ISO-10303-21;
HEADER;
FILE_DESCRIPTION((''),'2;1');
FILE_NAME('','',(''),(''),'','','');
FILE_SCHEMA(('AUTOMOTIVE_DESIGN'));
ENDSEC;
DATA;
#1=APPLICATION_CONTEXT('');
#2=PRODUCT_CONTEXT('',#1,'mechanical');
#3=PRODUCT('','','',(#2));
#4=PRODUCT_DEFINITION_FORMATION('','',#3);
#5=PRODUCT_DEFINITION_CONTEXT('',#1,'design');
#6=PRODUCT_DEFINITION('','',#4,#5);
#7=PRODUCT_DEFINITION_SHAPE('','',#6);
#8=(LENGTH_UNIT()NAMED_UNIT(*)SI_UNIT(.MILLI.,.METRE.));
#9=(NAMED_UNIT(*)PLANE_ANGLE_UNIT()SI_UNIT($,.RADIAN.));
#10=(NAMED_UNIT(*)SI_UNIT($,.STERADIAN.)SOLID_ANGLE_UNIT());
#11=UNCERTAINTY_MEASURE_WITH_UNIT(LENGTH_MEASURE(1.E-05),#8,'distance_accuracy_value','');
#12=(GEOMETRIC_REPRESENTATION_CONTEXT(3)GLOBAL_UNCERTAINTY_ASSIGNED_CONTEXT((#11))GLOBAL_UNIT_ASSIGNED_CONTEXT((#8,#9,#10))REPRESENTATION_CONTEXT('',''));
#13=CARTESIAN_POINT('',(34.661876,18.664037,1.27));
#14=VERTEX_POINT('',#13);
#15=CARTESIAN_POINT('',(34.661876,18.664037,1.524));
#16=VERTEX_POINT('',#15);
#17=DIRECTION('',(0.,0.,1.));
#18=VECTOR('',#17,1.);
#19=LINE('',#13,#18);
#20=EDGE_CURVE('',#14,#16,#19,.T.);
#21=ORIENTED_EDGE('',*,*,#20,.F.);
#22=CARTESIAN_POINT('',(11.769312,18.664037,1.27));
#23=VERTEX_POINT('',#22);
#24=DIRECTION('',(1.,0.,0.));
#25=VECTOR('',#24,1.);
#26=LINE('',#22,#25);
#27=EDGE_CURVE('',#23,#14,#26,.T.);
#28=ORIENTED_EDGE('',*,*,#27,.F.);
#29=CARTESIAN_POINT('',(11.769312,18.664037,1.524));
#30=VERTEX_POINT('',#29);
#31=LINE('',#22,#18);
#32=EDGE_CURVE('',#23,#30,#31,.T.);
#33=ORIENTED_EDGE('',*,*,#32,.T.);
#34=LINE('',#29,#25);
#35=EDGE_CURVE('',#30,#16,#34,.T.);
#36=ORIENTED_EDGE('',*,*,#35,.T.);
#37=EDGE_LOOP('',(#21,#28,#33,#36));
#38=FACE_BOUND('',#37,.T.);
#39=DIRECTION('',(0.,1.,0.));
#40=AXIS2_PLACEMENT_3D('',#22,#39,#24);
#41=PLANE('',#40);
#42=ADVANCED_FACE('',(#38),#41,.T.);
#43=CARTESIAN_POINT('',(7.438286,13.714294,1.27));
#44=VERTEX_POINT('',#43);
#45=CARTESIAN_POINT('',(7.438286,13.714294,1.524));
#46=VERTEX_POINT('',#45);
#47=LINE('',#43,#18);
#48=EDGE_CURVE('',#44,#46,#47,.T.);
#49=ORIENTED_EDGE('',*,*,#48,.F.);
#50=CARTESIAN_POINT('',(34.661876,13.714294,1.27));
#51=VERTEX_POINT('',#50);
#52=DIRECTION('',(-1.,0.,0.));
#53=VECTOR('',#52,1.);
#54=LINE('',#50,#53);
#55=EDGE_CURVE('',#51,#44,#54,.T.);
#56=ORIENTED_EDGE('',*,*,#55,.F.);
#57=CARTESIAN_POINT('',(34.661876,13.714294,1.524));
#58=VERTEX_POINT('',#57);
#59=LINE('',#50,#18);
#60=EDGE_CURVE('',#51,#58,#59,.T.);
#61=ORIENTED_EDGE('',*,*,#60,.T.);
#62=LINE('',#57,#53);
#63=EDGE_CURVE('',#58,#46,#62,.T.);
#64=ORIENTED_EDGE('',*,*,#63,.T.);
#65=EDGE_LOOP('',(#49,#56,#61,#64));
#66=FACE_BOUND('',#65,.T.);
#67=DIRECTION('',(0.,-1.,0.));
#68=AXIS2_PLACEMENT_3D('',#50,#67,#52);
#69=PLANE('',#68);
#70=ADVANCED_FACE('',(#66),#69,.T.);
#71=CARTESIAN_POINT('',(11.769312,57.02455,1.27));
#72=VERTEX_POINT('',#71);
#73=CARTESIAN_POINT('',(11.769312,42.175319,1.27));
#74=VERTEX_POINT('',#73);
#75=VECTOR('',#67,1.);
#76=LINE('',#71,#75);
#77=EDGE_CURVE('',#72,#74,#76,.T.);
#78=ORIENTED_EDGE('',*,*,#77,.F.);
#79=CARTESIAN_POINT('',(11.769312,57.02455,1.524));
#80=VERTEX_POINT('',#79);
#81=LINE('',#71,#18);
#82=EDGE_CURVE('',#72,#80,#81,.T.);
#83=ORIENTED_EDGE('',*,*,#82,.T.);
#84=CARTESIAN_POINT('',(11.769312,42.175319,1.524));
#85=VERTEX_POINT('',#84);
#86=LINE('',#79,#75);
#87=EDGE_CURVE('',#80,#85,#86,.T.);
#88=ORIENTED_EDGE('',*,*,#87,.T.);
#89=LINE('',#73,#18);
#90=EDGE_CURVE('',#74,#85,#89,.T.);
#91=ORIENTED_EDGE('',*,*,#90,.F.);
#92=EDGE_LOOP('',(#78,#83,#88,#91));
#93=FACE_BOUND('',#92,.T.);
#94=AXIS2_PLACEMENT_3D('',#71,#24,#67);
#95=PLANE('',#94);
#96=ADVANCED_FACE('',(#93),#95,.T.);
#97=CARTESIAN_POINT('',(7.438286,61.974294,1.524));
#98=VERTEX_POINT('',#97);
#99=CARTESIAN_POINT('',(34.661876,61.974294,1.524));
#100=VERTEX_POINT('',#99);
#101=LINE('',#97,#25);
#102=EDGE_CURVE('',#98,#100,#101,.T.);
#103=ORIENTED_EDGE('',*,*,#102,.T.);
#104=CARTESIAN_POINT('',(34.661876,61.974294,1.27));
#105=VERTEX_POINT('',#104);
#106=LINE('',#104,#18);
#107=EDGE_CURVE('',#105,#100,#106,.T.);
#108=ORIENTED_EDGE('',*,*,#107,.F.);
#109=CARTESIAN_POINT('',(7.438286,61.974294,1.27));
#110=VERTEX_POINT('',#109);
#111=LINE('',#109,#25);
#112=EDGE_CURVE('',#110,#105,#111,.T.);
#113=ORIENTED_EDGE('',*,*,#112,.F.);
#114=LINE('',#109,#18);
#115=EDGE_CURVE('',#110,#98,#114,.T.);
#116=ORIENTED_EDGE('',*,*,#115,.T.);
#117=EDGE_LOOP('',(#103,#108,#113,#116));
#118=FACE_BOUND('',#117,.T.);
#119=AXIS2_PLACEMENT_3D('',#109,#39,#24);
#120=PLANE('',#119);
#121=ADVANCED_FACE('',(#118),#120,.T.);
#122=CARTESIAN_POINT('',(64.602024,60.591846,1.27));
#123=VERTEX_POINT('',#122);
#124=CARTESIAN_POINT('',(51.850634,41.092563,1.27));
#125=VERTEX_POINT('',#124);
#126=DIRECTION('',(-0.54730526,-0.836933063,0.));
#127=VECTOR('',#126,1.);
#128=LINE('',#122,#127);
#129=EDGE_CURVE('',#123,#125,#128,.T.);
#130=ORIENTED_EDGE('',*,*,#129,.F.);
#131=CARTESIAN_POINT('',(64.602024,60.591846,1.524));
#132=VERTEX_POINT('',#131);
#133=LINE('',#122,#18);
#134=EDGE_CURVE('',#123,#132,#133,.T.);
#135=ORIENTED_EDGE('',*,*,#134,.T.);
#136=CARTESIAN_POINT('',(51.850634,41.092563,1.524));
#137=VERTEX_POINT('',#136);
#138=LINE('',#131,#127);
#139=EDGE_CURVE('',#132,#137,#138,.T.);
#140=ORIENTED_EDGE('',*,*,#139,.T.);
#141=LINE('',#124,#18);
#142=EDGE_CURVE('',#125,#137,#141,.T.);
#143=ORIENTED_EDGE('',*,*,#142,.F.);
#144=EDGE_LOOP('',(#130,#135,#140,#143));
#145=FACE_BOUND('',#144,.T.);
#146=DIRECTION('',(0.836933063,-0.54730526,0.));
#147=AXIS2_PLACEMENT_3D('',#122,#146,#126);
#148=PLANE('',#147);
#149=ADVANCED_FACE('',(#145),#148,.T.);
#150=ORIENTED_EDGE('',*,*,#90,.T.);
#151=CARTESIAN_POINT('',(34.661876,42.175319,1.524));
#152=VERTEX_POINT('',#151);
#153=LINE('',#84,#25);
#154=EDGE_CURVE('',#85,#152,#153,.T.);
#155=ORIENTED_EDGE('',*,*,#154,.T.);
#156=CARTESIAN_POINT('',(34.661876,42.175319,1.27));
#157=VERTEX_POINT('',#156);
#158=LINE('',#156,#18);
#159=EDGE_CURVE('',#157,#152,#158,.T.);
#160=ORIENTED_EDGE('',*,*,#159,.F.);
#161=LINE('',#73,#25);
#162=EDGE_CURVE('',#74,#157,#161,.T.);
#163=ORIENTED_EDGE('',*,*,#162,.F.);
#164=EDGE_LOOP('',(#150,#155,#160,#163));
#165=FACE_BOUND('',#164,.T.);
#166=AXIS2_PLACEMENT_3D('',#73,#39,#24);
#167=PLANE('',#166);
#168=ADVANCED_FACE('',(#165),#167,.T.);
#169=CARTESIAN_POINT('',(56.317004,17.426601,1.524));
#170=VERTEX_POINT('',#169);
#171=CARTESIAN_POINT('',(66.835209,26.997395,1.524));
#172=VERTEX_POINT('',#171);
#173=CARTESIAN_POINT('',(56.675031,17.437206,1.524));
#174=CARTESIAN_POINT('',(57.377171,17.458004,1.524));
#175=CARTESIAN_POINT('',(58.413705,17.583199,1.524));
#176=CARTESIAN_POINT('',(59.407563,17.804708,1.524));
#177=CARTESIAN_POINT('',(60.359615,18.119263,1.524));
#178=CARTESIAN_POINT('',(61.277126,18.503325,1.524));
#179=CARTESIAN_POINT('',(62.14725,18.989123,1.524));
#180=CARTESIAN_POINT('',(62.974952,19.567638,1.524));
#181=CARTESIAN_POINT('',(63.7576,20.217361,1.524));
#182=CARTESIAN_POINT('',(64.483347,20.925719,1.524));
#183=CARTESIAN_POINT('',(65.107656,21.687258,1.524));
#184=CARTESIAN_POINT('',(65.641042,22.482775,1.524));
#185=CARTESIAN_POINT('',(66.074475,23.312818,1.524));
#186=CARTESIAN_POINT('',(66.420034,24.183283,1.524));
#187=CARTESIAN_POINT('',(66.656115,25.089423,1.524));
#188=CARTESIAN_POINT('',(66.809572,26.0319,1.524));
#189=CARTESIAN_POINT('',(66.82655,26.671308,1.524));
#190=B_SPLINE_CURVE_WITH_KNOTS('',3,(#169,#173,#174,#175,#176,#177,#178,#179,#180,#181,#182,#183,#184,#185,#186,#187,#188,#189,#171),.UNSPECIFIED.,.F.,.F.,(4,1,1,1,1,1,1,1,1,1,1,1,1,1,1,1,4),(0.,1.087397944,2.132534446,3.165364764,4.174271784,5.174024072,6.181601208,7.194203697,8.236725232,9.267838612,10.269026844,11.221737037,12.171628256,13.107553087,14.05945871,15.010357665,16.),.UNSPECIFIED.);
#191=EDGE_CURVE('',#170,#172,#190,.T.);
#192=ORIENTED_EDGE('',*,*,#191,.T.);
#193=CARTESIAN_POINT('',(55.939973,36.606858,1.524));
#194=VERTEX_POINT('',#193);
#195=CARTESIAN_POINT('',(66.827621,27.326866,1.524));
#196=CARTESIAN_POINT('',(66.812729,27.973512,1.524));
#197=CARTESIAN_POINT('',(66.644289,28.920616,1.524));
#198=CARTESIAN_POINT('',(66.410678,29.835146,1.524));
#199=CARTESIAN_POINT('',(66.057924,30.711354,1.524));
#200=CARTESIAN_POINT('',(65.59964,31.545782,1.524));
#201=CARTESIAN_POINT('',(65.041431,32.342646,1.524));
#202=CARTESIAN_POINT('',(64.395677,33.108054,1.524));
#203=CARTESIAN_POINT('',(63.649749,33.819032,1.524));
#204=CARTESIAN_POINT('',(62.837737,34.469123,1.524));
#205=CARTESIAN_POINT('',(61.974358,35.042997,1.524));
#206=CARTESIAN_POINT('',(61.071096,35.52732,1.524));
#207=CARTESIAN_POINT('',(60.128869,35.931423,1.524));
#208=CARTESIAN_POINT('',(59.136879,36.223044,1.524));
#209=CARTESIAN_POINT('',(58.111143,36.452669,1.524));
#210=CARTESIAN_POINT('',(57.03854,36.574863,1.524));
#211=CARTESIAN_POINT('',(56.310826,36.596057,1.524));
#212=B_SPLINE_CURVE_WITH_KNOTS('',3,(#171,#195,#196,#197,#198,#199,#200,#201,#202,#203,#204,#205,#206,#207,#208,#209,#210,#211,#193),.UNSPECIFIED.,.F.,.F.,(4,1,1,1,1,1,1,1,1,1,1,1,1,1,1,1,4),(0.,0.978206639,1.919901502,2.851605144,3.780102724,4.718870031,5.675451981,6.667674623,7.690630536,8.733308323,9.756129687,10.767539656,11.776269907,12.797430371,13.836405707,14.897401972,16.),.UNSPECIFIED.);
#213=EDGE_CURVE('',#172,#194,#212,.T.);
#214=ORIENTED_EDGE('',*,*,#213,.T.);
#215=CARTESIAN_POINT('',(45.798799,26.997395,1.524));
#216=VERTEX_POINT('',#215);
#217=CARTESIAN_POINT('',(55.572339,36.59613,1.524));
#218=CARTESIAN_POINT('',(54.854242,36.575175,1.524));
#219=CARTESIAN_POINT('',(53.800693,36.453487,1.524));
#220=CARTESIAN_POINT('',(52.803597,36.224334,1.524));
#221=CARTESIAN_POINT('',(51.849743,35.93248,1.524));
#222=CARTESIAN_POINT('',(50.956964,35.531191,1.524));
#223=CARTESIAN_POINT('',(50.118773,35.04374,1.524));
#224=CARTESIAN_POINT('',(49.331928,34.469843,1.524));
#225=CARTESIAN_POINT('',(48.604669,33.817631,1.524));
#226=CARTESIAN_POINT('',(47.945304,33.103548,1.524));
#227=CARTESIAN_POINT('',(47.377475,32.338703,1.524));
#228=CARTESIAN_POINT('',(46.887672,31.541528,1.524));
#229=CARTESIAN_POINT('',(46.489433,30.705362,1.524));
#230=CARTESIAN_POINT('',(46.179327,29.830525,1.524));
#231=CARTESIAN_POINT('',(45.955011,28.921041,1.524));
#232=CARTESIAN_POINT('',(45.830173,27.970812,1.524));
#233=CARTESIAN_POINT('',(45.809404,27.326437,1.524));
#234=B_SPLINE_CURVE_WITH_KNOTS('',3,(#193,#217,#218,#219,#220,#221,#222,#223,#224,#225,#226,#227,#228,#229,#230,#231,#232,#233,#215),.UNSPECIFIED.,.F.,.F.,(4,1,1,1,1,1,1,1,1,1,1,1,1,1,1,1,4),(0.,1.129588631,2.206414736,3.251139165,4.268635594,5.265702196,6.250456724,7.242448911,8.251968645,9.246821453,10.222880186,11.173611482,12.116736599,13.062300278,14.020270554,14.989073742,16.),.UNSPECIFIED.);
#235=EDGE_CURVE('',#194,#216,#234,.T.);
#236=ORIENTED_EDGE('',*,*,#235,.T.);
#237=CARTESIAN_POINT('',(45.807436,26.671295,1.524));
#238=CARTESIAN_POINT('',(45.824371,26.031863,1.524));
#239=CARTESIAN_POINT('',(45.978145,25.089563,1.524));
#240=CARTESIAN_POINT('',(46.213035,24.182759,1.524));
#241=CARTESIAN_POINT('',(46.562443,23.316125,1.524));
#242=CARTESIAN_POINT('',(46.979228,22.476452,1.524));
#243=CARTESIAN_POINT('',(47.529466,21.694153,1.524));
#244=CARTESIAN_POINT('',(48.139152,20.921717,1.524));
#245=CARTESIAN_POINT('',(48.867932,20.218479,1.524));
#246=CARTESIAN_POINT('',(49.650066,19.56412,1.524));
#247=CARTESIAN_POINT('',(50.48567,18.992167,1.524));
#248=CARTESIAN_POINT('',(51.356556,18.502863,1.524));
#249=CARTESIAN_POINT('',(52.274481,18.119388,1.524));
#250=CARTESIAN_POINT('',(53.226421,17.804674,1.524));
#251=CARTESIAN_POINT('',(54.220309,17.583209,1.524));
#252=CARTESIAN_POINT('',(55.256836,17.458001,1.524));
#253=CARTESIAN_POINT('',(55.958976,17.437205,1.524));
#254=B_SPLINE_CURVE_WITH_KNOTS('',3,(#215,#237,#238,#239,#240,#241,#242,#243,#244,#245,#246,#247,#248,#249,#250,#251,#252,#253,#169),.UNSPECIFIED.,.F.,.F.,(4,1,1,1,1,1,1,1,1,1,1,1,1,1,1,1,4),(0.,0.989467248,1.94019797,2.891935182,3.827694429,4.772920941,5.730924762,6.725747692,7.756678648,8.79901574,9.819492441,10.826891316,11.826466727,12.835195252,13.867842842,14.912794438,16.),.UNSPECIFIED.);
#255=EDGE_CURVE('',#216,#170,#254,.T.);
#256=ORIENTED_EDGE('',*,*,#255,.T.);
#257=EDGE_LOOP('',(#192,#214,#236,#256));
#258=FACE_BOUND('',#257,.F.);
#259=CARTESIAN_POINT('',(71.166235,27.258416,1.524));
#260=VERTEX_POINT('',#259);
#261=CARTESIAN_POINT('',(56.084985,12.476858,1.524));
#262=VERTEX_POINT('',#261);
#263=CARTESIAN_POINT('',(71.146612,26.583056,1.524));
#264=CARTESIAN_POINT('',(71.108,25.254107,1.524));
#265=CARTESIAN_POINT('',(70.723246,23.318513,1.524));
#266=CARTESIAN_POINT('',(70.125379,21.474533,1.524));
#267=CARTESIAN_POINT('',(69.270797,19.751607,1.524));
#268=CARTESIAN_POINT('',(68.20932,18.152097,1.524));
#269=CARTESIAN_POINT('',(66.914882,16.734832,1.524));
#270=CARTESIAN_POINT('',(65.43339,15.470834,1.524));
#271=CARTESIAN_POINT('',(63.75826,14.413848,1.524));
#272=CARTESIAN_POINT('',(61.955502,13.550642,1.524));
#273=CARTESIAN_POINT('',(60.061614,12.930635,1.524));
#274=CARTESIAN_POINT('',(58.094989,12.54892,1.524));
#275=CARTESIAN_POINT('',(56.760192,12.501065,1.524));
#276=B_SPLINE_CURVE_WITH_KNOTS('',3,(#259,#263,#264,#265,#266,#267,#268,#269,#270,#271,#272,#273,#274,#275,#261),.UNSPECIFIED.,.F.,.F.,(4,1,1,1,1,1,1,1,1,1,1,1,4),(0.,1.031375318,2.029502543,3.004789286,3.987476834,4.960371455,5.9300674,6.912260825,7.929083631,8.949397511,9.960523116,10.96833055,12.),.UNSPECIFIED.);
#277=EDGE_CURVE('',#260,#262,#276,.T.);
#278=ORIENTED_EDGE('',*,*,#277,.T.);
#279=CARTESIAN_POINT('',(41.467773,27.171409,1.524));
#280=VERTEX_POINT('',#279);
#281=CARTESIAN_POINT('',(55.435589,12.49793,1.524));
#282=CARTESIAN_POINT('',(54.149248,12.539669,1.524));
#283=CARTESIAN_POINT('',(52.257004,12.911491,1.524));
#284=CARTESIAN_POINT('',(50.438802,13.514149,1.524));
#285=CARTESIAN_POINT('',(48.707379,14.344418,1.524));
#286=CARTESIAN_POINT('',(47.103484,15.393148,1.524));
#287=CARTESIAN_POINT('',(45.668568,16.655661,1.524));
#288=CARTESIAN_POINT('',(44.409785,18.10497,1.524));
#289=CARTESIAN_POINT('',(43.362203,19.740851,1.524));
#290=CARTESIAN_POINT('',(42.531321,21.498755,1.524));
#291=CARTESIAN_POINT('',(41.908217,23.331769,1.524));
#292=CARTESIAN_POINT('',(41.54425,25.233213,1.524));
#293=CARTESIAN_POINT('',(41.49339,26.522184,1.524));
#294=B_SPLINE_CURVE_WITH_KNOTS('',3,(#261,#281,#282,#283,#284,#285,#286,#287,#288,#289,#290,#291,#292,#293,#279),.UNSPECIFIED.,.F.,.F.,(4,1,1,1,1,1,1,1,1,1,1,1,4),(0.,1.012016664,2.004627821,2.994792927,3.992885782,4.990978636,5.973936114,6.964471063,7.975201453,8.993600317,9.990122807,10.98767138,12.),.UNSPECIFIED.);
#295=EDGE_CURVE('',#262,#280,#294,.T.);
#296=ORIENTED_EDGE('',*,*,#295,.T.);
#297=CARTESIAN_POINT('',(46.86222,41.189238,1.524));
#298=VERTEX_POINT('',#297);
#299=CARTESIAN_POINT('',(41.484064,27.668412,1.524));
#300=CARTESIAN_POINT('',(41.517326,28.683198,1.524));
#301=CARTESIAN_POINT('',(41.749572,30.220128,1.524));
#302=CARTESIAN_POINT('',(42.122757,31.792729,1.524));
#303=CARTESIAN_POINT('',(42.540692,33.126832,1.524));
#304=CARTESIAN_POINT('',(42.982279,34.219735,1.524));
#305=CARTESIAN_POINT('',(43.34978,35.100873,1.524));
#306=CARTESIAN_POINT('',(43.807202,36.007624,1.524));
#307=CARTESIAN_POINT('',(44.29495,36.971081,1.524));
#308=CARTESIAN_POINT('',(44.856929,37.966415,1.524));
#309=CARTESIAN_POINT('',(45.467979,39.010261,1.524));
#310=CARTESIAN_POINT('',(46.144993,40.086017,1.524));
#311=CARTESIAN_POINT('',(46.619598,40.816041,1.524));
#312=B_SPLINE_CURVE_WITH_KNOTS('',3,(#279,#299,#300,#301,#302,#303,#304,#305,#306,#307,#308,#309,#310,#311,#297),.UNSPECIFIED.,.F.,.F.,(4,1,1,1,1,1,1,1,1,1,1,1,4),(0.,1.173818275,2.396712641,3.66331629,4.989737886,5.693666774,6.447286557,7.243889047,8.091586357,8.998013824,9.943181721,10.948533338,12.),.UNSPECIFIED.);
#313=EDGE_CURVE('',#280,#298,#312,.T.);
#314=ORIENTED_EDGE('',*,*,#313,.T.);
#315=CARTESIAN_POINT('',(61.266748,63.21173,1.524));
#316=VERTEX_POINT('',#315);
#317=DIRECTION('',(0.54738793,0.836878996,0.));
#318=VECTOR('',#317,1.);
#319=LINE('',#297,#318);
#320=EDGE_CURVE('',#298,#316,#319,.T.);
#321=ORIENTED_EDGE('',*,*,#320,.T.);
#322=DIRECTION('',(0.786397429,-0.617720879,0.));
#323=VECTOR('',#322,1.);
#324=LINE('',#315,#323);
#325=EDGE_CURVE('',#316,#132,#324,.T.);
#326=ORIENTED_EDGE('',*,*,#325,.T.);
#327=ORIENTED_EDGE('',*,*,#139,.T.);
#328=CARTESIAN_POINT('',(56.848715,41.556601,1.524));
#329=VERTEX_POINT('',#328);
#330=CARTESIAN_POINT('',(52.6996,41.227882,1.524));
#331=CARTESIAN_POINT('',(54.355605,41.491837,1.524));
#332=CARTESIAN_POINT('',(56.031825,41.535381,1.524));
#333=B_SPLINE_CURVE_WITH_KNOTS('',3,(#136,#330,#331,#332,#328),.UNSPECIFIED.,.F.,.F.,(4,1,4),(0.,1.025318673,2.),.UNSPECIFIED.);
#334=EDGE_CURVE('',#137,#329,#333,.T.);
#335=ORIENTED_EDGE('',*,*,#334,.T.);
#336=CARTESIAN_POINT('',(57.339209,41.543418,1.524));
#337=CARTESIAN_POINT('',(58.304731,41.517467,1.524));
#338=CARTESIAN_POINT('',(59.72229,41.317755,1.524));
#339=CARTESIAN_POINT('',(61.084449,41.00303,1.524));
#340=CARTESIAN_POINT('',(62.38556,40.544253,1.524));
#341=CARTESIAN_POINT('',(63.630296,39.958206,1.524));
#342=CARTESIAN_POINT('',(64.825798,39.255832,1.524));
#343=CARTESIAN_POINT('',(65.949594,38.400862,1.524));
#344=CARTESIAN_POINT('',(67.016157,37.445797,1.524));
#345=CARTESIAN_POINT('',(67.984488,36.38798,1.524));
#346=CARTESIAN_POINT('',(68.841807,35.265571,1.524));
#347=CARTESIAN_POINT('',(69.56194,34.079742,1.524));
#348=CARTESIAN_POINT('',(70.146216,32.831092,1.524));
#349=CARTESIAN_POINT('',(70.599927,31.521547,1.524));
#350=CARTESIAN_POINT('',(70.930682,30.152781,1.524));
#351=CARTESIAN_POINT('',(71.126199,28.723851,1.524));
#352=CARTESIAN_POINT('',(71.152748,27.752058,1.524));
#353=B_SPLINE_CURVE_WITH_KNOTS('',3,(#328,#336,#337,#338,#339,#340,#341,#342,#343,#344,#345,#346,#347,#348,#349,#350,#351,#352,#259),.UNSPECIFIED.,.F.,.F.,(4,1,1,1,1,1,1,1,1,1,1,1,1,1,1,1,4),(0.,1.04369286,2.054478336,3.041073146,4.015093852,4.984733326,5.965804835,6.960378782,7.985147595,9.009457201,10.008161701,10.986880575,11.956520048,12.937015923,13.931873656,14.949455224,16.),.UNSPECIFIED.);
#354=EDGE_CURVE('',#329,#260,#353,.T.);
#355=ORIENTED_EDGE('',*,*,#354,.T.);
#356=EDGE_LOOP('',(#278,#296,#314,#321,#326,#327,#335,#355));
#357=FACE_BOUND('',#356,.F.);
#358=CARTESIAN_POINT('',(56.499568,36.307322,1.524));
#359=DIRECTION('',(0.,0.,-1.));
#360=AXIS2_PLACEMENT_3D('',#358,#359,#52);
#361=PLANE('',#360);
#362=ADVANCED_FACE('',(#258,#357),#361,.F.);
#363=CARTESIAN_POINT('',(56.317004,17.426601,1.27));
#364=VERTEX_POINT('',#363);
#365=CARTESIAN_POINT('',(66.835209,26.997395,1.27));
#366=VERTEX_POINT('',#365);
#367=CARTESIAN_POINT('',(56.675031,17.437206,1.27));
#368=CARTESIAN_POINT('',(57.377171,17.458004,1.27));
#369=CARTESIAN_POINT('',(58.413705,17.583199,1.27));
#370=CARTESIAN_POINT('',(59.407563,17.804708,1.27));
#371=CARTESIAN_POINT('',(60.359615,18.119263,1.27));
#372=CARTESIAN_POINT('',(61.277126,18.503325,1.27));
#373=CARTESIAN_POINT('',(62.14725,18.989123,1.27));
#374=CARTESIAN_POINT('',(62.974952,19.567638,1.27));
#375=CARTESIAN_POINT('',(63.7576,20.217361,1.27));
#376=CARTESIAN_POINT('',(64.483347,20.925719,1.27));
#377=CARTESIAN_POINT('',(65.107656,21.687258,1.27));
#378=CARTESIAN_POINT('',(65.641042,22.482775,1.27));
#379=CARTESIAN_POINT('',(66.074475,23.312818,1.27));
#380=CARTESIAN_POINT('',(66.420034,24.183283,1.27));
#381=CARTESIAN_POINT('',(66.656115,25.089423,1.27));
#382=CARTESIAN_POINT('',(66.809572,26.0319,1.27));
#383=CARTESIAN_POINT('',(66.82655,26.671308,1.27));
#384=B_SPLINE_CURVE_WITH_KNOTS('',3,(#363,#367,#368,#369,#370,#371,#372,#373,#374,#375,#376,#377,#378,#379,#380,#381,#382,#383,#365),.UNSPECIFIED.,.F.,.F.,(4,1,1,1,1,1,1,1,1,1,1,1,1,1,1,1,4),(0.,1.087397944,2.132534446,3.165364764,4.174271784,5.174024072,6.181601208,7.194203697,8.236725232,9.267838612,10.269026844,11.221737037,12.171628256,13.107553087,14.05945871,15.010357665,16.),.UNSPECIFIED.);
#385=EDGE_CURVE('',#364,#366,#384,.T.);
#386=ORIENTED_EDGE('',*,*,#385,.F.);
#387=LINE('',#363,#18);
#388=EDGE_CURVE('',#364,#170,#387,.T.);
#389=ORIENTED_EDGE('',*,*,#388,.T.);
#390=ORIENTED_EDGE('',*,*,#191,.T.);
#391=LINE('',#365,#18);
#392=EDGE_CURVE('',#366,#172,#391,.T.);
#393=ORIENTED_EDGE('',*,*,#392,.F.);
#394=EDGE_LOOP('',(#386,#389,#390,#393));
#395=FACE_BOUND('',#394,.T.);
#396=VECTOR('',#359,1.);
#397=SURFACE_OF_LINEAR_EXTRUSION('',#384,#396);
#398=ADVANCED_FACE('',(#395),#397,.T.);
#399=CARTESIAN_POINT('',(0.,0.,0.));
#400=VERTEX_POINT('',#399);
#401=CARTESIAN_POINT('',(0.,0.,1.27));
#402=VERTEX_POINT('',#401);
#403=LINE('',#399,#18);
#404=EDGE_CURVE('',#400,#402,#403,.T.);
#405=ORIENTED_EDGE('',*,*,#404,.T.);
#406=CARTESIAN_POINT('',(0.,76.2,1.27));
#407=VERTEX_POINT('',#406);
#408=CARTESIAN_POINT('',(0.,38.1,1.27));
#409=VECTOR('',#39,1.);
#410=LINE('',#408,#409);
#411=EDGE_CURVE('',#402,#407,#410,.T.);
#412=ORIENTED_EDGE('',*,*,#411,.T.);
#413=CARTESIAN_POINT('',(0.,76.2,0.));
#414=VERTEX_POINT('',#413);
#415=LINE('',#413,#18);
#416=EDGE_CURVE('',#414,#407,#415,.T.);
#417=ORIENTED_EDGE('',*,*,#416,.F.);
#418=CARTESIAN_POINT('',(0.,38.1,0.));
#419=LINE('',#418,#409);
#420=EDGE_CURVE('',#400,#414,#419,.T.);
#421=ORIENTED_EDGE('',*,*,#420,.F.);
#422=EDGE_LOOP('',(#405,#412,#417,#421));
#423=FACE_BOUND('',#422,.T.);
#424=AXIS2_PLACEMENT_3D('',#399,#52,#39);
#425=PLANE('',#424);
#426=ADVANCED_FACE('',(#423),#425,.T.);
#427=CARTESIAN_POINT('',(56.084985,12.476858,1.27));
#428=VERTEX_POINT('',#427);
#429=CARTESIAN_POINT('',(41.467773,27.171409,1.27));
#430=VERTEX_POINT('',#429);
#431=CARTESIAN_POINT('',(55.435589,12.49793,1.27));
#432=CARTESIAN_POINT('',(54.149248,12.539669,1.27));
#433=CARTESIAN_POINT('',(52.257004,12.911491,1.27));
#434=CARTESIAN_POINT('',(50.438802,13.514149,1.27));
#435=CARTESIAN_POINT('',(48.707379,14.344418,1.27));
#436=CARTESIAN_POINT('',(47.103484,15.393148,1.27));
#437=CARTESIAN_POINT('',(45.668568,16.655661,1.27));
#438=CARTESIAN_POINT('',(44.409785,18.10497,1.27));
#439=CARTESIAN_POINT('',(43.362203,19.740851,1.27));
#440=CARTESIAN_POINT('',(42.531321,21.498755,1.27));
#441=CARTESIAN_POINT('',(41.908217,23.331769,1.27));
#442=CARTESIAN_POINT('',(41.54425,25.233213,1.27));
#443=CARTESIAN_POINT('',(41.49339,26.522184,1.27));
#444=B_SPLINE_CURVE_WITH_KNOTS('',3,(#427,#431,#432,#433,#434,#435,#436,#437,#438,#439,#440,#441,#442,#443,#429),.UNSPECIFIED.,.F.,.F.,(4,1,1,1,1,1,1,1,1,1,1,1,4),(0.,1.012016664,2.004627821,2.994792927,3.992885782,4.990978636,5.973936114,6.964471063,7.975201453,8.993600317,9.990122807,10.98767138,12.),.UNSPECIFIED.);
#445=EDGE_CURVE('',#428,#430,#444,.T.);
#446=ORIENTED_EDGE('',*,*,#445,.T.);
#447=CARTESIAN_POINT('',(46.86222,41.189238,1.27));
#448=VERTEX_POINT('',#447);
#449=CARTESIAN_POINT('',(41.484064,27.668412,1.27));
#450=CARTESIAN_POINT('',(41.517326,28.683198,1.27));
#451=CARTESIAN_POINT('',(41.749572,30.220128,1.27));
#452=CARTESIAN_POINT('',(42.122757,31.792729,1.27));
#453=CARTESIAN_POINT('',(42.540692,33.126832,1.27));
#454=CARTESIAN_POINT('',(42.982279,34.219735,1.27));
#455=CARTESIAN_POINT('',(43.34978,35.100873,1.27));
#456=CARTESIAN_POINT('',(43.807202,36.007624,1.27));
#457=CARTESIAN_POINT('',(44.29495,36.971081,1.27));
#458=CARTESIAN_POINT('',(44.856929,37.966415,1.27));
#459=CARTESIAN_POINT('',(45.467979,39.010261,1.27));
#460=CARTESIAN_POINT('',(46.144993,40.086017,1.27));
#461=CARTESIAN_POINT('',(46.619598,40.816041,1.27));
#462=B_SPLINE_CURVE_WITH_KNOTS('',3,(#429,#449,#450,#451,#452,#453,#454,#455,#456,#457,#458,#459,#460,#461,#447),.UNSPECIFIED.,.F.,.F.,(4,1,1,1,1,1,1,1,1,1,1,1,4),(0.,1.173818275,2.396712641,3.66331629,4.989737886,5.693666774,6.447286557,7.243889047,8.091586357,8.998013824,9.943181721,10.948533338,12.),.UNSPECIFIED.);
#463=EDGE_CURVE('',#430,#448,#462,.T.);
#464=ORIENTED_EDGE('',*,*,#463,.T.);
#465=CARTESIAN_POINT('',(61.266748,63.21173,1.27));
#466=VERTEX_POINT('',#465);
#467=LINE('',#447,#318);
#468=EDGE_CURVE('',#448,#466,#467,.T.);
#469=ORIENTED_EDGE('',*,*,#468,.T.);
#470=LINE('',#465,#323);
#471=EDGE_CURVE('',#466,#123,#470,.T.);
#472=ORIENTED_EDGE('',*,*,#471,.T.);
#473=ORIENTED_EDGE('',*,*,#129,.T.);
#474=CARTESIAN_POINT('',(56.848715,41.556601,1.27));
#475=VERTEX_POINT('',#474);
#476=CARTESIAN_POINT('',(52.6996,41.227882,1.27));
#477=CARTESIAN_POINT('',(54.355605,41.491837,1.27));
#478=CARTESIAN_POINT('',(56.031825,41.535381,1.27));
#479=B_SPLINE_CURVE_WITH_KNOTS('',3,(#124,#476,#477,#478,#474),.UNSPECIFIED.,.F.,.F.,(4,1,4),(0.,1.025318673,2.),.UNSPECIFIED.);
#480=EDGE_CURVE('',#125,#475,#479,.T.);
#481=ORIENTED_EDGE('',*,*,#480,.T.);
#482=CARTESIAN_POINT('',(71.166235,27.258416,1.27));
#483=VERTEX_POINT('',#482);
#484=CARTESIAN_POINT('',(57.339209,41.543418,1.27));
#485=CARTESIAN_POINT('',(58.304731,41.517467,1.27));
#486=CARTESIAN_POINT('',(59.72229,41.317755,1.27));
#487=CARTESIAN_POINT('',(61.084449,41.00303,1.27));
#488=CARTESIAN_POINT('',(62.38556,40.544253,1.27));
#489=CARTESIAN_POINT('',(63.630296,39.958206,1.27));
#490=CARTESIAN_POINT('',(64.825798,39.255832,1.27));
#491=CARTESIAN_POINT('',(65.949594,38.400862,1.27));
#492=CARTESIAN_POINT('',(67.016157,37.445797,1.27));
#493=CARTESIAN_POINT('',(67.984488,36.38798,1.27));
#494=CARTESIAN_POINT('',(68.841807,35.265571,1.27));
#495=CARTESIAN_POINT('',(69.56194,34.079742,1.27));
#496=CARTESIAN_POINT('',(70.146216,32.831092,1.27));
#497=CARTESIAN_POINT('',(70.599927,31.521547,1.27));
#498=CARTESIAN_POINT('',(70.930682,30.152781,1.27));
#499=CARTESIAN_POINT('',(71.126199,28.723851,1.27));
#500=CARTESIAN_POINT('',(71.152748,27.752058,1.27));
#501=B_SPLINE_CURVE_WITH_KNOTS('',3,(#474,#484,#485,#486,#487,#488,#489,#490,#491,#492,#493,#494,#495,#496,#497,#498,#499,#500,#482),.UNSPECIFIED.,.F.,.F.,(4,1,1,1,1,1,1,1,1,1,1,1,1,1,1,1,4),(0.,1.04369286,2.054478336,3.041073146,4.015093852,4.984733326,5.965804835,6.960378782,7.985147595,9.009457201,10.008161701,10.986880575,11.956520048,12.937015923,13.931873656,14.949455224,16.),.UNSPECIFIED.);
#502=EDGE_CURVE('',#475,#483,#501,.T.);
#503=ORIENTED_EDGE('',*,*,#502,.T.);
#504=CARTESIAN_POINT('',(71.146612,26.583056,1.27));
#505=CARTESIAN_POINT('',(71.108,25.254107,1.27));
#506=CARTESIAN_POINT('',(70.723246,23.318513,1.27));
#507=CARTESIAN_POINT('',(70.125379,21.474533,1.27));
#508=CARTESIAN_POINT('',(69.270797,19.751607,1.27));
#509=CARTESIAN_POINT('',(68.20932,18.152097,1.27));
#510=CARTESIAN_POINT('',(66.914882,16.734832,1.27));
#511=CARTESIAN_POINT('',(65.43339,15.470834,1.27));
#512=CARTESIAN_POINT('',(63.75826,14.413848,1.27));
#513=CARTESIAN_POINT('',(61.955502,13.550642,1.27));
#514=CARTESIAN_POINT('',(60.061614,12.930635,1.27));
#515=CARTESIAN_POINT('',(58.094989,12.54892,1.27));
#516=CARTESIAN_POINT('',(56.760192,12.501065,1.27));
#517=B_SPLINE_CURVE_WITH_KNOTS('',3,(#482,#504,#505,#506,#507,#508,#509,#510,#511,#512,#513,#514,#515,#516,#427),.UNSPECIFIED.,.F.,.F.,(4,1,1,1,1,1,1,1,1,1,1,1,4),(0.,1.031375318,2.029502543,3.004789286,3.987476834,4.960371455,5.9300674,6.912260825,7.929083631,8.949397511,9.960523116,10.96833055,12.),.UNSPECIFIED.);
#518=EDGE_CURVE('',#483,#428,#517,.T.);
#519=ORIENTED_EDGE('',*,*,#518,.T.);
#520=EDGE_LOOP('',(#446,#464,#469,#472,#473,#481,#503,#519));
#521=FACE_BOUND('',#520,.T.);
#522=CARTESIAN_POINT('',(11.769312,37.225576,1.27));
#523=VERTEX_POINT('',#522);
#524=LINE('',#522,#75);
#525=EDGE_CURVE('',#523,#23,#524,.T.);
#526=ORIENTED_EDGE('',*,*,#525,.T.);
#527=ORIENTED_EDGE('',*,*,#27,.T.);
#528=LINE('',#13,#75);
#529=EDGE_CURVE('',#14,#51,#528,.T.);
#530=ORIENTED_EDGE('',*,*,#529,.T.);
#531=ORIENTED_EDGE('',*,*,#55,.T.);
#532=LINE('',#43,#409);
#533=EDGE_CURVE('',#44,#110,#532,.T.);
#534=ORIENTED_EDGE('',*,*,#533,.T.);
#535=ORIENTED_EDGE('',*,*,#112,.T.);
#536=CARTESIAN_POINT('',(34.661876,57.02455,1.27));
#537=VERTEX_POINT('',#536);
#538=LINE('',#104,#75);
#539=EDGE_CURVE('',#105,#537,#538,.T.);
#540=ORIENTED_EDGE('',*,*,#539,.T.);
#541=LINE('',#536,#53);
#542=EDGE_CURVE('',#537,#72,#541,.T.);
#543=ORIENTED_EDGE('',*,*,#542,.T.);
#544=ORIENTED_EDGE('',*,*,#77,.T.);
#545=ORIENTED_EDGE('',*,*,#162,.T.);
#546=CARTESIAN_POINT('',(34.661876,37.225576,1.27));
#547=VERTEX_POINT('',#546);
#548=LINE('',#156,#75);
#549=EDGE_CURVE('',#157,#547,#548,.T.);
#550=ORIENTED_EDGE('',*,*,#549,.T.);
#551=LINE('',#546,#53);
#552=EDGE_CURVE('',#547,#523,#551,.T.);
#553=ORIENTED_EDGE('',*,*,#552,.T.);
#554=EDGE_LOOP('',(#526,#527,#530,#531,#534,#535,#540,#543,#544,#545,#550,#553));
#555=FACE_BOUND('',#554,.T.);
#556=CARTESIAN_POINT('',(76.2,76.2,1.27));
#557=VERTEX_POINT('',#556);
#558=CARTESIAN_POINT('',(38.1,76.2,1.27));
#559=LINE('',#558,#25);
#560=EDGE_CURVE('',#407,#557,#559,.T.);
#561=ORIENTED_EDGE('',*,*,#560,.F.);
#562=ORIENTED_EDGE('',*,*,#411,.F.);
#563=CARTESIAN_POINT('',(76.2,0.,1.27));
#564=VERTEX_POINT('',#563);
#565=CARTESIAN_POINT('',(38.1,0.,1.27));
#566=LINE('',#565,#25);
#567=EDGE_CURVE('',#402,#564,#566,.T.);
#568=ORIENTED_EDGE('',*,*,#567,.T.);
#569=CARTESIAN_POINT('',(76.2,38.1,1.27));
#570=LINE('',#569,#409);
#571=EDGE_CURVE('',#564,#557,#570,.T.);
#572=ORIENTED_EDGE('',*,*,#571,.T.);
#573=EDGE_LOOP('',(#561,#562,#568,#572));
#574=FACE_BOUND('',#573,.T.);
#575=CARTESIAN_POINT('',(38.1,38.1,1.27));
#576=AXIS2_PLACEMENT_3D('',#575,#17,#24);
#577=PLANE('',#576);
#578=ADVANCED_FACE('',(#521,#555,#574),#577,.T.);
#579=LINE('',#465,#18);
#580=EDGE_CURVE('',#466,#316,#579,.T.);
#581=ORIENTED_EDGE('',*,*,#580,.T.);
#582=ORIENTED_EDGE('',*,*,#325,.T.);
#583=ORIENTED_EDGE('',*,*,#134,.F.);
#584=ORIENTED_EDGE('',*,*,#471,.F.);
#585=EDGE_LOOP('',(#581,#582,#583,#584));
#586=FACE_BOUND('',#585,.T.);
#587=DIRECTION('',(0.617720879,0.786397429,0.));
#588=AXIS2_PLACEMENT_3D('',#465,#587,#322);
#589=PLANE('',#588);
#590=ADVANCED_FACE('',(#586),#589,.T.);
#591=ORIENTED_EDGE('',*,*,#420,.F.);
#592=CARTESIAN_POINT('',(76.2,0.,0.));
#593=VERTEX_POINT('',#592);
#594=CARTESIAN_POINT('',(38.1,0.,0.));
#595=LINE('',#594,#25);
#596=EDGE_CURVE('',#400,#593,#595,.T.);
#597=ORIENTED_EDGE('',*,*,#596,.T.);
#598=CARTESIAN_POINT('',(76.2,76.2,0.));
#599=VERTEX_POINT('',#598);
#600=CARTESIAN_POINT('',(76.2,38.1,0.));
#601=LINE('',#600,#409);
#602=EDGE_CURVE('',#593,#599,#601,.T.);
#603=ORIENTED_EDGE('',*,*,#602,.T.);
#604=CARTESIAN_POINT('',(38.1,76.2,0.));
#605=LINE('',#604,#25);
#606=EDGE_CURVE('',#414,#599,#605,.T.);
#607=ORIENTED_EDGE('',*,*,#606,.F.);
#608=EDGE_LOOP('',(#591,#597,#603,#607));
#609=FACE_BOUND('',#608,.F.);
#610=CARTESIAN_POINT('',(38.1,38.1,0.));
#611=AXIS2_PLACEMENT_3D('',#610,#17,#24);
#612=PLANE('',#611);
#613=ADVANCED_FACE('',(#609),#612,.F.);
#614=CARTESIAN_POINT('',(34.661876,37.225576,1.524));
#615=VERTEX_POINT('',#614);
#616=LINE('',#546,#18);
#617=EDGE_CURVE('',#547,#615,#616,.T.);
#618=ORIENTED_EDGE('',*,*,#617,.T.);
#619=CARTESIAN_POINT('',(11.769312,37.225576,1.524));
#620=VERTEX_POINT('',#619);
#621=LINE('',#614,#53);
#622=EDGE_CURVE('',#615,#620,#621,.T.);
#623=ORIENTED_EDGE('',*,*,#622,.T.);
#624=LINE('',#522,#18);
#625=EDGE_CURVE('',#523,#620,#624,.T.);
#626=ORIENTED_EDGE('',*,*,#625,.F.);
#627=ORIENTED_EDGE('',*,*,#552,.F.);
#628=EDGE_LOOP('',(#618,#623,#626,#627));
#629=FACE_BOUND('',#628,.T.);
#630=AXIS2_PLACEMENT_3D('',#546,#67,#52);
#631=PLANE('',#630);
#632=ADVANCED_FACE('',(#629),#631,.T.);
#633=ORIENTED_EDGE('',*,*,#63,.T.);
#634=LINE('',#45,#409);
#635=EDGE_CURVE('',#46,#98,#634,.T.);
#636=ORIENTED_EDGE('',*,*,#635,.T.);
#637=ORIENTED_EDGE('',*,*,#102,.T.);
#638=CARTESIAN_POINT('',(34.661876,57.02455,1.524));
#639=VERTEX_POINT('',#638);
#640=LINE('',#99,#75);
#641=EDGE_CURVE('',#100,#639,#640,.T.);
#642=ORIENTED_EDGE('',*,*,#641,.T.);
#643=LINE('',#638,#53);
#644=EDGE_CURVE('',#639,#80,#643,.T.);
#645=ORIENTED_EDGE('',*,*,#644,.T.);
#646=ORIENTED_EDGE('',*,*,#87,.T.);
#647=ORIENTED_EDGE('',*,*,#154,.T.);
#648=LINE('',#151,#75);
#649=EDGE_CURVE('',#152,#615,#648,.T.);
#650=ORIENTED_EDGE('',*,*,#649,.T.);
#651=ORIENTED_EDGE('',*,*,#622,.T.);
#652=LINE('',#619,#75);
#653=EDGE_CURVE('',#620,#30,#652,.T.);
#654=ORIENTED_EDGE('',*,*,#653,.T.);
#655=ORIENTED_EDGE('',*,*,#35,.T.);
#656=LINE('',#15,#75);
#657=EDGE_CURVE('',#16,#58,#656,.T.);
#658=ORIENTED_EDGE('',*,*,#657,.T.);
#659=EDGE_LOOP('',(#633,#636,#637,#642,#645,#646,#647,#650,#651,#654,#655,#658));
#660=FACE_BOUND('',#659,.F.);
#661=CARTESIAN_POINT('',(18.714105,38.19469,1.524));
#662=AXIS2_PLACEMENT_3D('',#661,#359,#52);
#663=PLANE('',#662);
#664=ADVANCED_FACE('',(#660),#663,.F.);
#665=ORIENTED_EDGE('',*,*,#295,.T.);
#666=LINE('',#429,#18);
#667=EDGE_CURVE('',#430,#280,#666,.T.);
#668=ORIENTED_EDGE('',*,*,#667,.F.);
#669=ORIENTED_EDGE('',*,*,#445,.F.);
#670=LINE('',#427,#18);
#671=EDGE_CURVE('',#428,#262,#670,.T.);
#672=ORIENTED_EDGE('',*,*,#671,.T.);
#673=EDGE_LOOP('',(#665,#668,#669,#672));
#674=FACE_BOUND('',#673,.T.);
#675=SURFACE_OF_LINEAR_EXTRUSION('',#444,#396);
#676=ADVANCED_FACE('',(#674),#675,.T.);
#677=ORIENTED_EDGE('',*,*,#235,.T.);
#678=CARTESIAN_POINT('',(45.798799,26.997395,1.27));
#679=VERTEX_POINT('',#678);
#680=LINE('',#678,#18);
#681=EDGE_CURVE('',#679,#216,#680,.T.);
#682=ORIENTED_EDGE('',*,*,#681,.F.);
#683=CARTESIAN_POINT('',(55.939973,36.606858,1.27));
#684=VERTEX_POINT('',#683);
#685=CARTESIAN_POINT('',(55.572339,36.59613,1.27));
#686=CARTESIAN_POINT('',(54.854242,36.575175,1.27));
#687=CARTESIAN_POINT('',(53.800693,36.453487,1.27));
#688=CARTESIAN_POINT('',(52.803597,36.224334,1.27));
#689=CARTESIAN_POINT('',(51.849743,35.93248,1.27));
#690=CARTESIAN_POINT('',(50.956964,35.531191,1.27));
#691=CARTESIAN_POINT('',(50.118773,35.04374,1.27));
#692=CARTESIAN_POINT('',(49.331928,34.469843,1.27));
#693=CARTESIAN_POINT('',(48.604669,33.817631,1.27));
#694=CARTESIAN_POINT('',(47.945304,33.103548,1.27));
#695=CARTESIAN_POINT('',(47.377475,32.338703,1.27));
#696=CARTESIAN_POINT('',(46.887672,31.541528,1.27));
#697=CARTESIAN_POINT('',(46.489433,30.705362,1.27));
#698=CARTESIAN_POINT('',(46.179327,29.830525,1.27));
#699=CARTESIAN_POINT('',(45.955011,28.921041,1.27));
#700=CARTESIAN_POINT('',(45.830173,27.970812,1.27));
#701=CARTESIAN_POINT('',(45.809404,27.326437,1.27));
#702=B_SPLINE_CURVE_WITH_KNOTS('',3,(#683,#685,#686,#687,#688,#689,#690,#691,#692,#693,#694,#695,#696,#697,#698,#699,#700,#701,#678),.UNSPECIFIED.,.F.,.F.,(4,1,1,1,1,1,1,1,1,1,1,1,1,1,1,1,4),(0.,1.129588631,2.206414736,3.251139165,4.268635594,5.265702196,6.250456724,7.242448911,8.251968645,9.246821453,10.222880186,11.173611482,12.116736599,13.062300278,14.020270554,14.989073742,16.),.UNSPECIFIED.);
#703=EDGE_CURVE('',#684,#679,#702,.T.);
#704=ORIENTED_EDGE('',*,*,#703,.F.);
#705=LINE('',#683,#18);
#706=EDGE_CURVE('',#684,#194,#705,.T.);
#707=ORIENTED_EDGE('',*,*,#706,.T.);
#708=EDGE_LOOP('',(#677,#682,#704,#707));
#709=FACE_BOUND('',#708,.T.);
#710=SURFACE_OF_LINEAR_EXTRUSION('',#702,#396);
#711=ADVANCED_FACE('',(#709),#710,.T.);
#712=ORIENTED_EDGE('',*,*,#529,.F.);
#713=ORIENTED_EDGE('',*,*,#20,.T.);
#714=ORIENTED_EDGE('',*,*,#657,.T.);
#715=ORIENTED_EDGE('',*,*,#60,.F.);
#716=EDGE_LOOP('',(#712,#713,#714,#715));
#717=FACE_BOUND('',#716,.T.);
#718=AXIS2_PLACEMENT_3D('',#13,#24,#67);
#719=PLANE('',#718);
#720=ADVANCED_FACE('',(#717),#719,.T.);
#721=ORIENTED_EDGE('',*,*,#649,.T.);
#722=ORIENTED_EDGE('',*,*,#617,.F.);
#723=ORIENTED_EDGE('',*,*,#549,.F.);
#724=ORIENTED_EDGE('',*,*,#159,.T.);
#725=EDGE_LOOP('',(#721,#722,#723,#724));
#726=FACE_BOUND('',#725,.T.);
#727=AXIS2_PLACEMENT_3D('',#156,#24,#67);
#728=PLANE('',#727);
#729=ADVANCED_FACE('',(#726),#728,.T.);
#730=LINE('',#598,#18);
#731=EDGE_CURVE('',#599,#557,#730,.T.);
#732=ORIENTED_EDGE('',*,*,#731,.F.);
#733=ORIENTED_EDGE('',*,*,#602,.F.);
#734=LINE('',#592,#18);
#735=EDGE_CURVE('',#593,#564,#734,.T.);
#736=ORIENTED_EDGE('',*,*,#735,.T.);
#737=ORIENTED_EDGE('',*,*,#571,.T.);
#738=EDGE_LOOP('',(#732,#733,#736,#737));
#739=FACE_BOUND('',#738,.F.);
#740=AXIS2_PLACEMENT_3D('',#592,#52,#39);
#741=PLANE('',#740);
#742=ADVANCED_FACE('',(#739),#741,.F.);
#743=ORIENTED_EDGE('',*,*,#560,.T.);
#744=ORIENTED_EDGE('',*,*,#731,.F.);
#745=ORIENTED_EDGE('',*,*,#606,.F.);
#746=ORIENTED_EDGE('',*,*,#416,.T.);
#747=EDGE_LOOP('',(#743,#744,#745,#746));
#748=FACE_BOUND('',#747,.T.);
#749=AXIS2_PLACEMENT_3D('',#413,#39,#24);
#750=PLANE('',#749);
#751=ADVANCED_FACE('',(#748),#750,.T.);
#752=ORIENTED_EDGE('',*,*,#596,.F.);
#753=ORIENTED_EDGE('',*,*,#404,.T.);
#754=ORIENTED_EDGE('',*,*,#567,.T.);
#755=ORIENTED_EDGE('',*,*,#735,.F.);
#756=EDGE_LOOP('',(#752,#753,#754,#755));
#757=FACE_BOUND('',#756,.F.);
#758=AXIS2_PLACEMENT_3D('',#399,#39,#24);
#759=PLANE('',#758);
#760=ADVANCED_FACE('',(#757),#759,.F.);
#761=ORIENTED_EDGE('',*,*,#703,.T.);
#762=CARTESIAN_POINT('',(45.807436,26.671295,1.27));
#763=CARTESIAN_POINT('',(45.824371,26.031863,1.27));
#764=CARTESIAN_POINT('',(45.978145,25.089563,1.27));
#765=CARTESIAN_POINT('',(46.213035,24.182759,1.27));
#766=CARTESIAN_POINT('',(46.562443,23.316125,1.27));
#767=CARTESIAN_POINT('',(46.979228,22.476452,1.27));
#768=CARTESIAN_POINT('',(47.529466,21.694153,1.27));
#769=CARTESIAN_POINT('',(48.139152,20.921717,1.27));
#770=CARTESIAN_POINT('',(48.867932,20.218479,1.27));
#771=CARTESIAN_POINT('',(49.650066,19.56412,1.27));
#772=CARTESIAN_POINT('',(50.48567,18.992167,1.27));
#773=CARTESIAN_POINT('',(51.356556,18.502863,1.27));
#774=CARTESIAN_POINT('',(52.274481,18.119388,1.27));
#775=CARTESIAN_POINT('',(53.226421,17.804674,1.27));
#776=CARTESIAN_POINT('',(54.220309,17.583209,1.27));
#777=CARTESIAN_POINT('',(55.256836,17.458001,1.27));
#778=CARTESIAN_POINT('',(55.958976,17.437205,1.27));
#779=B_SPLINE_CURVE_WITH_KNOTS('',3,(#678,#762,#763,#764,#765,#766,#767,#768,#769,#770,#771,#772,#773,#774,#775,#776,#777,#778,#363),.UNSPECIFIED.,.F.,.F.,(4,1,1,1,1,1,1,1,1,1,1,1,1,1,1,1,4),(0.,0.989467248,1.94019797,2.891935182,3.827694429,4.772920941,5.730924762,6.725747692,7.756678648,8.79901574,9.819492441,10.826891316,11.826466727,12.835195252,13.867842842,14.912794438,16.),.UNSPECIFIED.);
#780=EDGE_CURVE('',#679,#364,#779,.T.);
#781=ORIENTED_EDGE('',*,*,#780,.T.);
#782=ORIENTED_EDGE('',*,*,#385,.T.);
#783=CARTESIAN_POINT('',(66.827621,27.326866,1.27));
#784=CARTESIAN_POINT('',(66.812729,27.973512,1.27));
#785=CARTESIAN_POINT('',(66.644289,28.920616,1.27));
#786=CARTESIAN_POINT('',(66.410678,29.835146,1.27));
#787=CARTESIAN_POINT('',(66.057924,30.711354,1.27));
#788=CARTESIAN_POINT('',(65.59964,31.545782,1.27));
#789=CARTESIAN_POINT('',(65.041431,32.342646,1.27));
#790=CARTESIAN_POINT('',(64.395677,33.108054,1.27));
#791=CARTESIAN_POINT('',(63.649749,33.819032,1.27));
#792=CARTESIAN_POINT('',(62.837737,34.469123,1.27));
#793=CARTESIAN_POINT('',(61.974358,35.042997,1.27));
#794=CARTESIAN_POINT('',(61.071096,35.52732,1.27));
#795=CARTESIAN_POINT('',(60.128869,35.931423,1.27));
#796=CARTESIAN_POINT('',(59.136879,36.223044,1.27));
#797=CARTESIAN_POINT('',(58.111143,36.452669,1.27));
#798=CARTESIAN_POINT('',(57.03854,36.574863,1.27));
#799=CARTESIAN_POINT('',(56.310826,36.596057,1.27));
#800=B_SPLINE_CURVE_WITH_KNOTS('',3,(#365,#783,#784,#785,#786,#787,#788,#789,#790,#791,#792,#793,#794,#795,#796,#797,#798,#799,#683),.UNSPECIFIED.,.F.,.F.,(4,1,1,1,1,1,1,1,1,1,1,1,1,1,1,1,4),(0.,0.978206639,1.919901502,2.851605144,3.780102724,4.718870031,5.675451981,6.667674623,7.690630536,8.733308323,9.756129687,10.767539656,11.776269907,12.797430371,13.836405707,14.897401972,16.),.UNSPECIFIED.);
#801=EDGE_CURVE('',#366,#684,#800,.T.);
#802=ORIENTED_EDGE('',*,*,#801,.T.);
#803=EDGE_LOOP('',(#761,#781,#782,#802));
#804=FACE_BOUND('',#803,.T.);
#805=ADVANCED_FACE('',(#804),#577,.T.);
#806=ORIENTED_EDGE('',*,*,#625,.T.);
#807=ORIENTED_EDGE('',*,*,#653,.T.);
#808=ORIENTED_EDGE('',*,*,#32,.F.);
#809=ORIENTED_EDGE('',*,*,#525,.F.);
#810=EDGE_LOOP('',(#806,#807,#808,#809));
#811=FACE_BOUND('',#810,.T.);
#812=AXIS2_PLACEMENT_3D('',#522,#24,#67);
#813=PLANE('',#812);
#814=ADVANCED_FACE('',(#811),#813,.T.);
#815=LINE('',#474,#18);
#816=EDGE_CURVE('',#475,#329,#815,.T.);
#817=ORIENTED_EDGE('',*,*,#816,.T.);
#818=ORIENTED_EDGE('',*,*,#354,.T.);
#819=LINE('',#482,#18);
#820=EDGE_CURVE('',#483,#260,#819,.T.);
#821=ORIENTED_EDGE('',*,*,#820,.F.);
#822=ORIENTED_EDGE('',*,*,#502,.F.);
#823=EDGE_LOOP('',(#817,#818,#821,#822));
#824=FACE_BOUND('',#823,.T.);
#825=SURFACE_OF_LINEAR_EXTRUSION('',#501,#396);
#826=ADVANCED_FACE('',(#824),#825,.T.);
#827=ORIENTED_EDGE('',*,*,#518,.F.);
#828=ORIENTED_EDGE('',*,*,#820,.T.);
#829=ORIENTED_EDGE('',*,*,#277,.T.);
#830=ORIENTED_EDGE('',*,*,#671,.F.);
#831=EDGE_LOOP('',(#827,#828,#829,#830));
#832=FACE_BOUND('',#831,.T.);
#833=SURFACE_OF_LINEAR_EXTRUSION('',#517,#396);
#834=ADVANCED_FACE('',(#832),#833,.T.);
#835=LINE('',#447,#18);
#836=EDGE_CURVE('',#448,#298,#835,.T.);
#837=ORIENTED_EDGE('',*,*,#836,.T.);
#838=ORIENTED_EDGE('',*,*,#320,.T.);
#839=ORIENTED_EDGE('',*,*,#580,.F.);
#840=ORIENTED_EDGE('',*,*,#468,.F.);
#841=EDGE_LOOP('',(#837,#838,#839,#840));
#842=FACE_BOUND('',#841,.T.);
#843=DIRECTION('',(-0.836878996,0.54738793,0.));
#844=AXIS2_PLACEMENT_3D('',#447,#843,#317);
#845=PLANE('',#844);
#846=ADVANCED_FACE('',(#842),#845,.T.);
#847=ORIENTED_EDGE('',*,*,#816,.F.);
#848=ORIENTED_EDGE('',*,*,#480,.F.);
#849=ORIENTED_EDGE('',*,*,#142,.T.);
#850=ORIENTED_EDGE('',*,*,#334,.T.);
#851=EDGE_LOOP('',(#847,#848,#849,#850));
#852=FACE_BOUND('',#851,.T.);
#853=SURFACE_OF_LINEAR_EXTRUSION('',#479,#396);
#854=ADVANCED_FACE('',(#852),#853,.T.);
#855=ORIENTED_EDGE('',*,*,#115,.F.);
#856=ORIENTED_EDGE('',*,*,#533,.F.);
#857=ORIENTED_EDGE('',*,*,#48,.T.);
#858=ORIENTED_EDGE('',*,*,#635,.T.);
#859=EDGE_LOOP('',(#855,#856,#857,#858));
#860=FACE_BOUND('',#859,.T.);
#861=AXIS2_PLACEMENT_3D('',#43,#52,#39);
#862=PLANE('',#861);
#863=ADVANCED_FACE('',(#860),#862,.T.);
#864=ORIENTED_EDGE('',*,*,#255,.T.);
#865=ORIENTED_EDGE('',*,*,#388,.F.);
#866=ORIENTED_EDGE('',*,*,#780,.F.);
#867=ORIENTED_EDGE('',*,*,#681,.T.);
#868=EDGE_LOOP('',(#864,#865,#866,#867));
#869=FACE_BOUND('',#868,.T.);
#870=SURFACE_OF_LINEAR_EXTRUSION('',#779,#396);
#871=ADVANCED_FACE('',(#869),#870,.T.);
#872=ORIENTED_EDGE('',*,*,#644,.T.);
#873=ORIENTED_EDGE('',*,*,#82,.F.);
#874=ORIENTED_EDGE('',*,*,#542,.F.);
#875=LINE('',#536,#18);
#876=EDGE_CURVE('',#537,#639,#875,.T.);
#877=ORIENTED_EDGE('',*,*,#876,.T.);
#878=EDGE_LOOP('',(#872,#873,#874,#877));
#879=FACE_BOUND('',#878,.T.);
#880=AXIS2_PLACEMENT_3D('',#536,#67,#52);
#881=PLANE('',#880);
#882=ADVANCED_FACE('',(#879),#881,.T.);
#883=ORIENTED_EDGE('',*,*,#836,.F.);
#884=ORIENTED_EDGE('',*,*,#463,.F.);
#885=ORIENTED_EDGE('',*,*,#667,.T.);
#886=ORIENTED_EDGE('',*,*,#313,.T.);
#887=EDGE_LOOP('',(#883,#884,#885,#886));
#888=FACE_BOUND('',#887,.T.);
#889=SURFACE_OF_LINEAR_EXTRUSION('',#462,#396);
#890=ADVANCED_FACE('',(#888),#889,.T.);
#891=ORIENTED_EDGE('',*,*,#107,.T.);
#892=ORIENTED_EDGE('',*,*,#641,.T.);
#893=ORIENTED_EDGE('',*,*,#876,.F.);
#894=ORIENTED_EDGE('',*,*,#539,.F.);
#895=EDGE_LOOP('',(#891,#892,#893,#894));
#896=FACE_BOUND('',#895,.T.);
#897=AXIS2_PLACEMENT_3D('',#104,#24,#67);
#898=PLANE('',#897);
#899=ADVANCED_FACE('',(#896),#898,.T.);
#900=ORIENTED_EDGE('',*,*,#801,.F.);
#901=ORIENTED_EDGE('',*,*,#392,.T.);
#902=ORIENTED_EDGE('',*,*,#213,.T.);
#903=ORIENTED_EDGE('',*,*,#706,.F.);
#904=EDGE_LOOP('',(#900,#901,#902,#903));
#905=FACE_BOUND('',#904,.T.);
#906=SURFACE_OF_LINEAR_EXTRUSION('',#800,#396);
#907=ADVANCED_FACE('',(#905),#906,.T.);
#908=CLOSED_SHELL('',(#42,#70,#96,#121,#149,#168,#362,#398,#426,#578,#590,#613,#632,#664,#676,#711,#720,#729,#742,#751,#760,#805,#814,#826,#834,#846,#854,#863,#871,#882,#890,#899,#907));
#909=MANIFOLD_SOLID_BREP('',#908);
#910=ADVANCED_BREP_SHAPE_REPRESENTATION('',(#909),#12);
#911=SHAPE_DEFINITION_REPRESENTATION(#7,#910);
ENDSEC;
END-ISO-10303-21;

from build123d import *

# Parameters (mm, degrees)
SKETCH1_W           = 76.2
SKETCH1_H           = 76.2
BOSS_EXTRUDE1_DEPTH = 1.27
BOSS_EXTRUDE2_DEPTH = 0.254


with BuildPart() as part:
    # Sketch1 → Boss-Extrude1 (new body)
    with BuildSketch(Plane.XY):
        with Locations((38.1, 38.1)):
            Rectangle(SKETCH1_W, SKETCH1_H)
    extrude(amount=BOSS_EXTRUDE1_DEPTH)

    # Sketch2 → Boss-Extrude2 (add)
    # profile 1 of 2: a face of its own
    with BuildSketch(Plane.XY.offset(1.27)):
        Polygon((7.438286123, 61.974293726), (34.661875867, 61.974293726), (34.661875867, 57.024550136), (11.769311764, 57.024550136), (11.769311764, 42.175319367), (34.661875867, 42.175319367), (34.661875867, 37.225575777), (11.769311764, 37.225575777), (11.769311764, 18.664037315), (34.661875867, 18.664037315), (34.661875867, 13.714293726), (7.438286123, 13.714293726), align=None)
    # profile 2 of 2: a face of its own
    with BuildSketch(Plane.XY.offset(1.27)):
        with BuildLine():
            Line((61.266747661, 63.211729623), (64.602024104, 60.591845809))
            Line((64.602024104, 60.591845809), (51.850633879, 41.092562956))
            add(Edge.make_bspline(
                [(51.850633879, 41.092562956), (52.699600041, 41.227882075), (54.35560453, 41.491837316), (56.031824605, 41.535380872), (56.848714809, 41.556601418)],
                knots=[0, 0, 0, 0, 1.025318673, 2, 2, 2, 2], degree=3))
            add(Edge.make_bspline(
                [(56.848714809, 41.556601418), (57.339208715, 41.543418004), (58.304731374, 41.517466845), (59.722290309, 41.317755235), (61.084448609, 41.003029549), (62.38556044, 40.544252671), (63.630295899, 39.958205922), (64.82579808, 39.255831671), (65.949594368, 38.400861918), (67.016156628, 37.445797128), (67.984487977, 36.387979507), (68.84180696, 35.265571362), (69.561939808, 34.079742071), (70.146215653, 32.831092257), (70.599926922, 31.521546684), (70.930682279, 30.152780852), (71.126198607, 28.723850905), (71.152748374, 27.752057551), (71.166234841, 27.258416322)],
                knots=[0, 0, 0, 0, 1.04369286, 2.054478336, 3.041073146, 4.015093852, 4.984733326, 5.965804835, 6.960378782, 7.985147595, 9.009457201, 10.008161701, 10.986880575, 11.956520048, 12.937015923, 13.931873656, 14.949455224, 16, 16, 16, 16], degree=3))
            add(Edge.make_bspline(
                [(71.166234841, 27.258416322), (71.146612258, 26.583056175), (71.107999657, 25.254107236), (70.723246173, 23.318512993), (70.125378614, 21.47453265), (69.270797037, 19.751606922), (68.20931995, 18.152097205), (66.914882058, 16.734832473), (65.433389845, 15.470833616), (63.75826045, 14.413848347), (61.955501751, 13.550641706), (60.061613924, 12.930635254), (58.094989329, 12.548919759), (56.760192076, 12.501065106), (56.084984841, 12.476857828)],
                knots=[0, 0, 0, 0, 1.031375318, 2.029502543, 3.004789286, 3.987476834, 4.960371455, 5.9300674, 6.912260825, 7.929083631, 8.949397511, 9.960523116, 10.96833055, 12, 12, 12, 12], degree=3))
            add(Edge.make_bspline(
                [(56.084984841, 12.476857828), (55.43558862, 12.497929602), (54.149248406, 12.539669097), (52.257004221, 12.911490858), (50.438801587, 13.514149366), (48.70737921, 14.344418247), (47.10348413, 15.393147799), (45.668567668, 16.655660825), (44.409784514, 18.104970192), (43.362203027, 19.740851094), (42.531321197, 21.49875548), (41.908216687, 23.331768956), (41.544250201, 25.233212704), (41.493390272, 26.522184069), (41.467773302, 27.17140911)],
                knots=[0, 0, 0, 0, 1.012016664, 2.004627821, 2.994792927, 3.992885782, 4.990978636, 5.973936114, 6.964471063, 7.975201453, 8.993600317, 9.990122807, 10.98767138, 12, 12, 12, 12], degree=3))
            add(Edge.make_bspline(
                [(41.467773302, 27.17140911), (41.484063741, 27.668412421), (41.517325705, 28.683198219), (41.749571996, 30.22012793), (42.122756852, 31.792729417), (42.540691849, 33.126831527), (42.98227926, 34.219734684), (43.349779706, 35.100872529), (43.80720172, 36.007623784), (44.294950113, 36.971081405), (44.856929112, 37.9664154), (45.467978609, 39.010260853), (46.144992652, 40.086016622), (46.619597525, 40.816041439), (46.862220418, 41.189237636)],
                knots=[0, 0, 0, 0, 1.173818275, 2.396712641, 3.66331629, 4.989737886, 5.693666774, 6.447286557, 7.243889047, 8.091586357, 8.998013824, 9.943181721, 10.948533338, 12, 12, 12, 12], degree=3))
            Line((46.862220418, 41.189237636), (61.266747661, 63.211729623))
        make_face()
        with BuildLine():
            add(Edge.make_bspline(
                [(55.939972822, 36.606857828), (55.572338554, 36.596129717), (54.854242034, 36.5751746), (53.800692939, 36.453486984), (52.803596506, 36.224333811), (51.849742657, 35.932480331), (50.956964331, 35.531190713), (50.118773071, 35.043739908), (49.331927527, 34.46984332), (48.604669296, 33.817631329), (47.945304453, 33.103548337), (47.377475489, 32.338702868), (46.887672338, 31.541527599), (46.489433316, 30.705361848), (46.1793273, 29.830525256), (45.955011361, 28.921041435), (45.830173065, 27.970811602), (45.809404284, 27.32643715), (45.798798943, 26.997394687)],
                knots=[0, 0, 0, 0, 1.129588631, 2.206414736, 3.251139165, 4.268635594, 5.265702196, 6.250456724, 7.242448911, 8.251968645, 9.246821453, 10.222880186, 11.173611482, 12.116736599, 13.062300278, 14.020270554, 14.989073742, 16, 16, 16, 16], degree=3))
            add(Edge.make_bspline(
                [(45.798798943, 26.997394687), (45.807435574, 26.67129525), (45.824370719, 26.031862801), (45.978145278, 25.089563143), (46.213034728, 24.182759006), (46.562442586, 23.316125246), (46.979228193, 22.476452015), (47.529465606, 21.694153479), (48.139151915, 20.921716741), (48.867932152, 20.21847931), (49.650066294, 19.564120257), (50.485670303, 18.992166819), (51.356555921, 18.502863182), (52.27448073, 18.119387876), (53.226421418, 17.804673567), (54.220309287, 17.583208713), (55.256835574, 17.458001231), (55.958976354, 17.437205396), (56.317004072, 17.426601418)],
                knots=[0, 0, 0, 0, 0.989467248, 1.94019797, 2.891935182, 3.827694429, 4.772920941, 5.730924762, 6.725747692, 7.756678648, 8.79901574, 9.819492441, 10.826891316, 11.826466727, 12.835195252, 13.867842842, 14.912794438, 16, 16, 16, 16], degree=3))
            add(Edge.make_bspline(
                [(56.317004072, 17.426601418), (56.675031203, 17.437206228), (57.377170832, 17.458003693), (58.413705458, 17.583199356), (59.407562503, 17.804707901), (60.359615219, 18.119263413), (61.277126494, 18.503324899), (62.147250454, 18.989122741), (62.974952109, 19.567637667), (63.757599691, 20.217361058), (64.483346509, 20.925719296), (65.107655503, 21.687258269), (65.641042027, 22.482774666), (66.074474561, 23.31281757), (66.420033966, 24.18328302), (66.65611454, 25.089422761), (66.809571535, 26.031899554), (66.826550316, 26.671307663), (66.8352092, 26.997394687)],
                knots=[0, 0, 0, 0, 1.087397944, 2.132534446, 3.165364764, 4.174271784, 5.174024072, 6.181601208, 7.194203697, 8.236725232, 9.267838612, 10.269026844, 11.221737037, 12.171628256, 13.107553087, 14.05945871, 15.010357665, 16, 16, 16, 16], degree=3))
            add(Edge.make_bspline(
                [(66.8352092, 26.997394687), (66.827621446, 27.326866409), (66.812729152, 27.97351225), (66.644288672, 28.92061638), (66.41067754, 29.835146224), (66.057924094, 30.711354081), (65.599639622, 31.545782266), (65.041431273, 32.342645883), (64.395677032, 33.108054272), (63.649749243, 33.819031738), (62.837737046, 34.46912259), (61.974357575, 35.042996816), (61.0710962, 35.527320066), (60.128868754, 35.931423139), (59.136879177, 36.223044174), (58.111142672, 36.452668606), (57.038540143, 36.57486317), (56.31082611, 36.596057103), (55.939972822, 36.606857828)],
                knots=[0, 0, 0, 0, 0.978206639, 1.919901502, 2.851605144, 3.780102724, 4.718870031, 5.675451981, 6.667674623, 7.690630536, 8.733308323, 9.756129687, 10.767539656, 11.776269907, 12.797430371, 13.836405707, 14.897401972, 16, 16, 16, 16], degree=3))
        make_face(mode=Mode.SUBTRACT)
    extrude(amount=BOSS_EXTRUDE2_DEPTH)


solid = part.part
